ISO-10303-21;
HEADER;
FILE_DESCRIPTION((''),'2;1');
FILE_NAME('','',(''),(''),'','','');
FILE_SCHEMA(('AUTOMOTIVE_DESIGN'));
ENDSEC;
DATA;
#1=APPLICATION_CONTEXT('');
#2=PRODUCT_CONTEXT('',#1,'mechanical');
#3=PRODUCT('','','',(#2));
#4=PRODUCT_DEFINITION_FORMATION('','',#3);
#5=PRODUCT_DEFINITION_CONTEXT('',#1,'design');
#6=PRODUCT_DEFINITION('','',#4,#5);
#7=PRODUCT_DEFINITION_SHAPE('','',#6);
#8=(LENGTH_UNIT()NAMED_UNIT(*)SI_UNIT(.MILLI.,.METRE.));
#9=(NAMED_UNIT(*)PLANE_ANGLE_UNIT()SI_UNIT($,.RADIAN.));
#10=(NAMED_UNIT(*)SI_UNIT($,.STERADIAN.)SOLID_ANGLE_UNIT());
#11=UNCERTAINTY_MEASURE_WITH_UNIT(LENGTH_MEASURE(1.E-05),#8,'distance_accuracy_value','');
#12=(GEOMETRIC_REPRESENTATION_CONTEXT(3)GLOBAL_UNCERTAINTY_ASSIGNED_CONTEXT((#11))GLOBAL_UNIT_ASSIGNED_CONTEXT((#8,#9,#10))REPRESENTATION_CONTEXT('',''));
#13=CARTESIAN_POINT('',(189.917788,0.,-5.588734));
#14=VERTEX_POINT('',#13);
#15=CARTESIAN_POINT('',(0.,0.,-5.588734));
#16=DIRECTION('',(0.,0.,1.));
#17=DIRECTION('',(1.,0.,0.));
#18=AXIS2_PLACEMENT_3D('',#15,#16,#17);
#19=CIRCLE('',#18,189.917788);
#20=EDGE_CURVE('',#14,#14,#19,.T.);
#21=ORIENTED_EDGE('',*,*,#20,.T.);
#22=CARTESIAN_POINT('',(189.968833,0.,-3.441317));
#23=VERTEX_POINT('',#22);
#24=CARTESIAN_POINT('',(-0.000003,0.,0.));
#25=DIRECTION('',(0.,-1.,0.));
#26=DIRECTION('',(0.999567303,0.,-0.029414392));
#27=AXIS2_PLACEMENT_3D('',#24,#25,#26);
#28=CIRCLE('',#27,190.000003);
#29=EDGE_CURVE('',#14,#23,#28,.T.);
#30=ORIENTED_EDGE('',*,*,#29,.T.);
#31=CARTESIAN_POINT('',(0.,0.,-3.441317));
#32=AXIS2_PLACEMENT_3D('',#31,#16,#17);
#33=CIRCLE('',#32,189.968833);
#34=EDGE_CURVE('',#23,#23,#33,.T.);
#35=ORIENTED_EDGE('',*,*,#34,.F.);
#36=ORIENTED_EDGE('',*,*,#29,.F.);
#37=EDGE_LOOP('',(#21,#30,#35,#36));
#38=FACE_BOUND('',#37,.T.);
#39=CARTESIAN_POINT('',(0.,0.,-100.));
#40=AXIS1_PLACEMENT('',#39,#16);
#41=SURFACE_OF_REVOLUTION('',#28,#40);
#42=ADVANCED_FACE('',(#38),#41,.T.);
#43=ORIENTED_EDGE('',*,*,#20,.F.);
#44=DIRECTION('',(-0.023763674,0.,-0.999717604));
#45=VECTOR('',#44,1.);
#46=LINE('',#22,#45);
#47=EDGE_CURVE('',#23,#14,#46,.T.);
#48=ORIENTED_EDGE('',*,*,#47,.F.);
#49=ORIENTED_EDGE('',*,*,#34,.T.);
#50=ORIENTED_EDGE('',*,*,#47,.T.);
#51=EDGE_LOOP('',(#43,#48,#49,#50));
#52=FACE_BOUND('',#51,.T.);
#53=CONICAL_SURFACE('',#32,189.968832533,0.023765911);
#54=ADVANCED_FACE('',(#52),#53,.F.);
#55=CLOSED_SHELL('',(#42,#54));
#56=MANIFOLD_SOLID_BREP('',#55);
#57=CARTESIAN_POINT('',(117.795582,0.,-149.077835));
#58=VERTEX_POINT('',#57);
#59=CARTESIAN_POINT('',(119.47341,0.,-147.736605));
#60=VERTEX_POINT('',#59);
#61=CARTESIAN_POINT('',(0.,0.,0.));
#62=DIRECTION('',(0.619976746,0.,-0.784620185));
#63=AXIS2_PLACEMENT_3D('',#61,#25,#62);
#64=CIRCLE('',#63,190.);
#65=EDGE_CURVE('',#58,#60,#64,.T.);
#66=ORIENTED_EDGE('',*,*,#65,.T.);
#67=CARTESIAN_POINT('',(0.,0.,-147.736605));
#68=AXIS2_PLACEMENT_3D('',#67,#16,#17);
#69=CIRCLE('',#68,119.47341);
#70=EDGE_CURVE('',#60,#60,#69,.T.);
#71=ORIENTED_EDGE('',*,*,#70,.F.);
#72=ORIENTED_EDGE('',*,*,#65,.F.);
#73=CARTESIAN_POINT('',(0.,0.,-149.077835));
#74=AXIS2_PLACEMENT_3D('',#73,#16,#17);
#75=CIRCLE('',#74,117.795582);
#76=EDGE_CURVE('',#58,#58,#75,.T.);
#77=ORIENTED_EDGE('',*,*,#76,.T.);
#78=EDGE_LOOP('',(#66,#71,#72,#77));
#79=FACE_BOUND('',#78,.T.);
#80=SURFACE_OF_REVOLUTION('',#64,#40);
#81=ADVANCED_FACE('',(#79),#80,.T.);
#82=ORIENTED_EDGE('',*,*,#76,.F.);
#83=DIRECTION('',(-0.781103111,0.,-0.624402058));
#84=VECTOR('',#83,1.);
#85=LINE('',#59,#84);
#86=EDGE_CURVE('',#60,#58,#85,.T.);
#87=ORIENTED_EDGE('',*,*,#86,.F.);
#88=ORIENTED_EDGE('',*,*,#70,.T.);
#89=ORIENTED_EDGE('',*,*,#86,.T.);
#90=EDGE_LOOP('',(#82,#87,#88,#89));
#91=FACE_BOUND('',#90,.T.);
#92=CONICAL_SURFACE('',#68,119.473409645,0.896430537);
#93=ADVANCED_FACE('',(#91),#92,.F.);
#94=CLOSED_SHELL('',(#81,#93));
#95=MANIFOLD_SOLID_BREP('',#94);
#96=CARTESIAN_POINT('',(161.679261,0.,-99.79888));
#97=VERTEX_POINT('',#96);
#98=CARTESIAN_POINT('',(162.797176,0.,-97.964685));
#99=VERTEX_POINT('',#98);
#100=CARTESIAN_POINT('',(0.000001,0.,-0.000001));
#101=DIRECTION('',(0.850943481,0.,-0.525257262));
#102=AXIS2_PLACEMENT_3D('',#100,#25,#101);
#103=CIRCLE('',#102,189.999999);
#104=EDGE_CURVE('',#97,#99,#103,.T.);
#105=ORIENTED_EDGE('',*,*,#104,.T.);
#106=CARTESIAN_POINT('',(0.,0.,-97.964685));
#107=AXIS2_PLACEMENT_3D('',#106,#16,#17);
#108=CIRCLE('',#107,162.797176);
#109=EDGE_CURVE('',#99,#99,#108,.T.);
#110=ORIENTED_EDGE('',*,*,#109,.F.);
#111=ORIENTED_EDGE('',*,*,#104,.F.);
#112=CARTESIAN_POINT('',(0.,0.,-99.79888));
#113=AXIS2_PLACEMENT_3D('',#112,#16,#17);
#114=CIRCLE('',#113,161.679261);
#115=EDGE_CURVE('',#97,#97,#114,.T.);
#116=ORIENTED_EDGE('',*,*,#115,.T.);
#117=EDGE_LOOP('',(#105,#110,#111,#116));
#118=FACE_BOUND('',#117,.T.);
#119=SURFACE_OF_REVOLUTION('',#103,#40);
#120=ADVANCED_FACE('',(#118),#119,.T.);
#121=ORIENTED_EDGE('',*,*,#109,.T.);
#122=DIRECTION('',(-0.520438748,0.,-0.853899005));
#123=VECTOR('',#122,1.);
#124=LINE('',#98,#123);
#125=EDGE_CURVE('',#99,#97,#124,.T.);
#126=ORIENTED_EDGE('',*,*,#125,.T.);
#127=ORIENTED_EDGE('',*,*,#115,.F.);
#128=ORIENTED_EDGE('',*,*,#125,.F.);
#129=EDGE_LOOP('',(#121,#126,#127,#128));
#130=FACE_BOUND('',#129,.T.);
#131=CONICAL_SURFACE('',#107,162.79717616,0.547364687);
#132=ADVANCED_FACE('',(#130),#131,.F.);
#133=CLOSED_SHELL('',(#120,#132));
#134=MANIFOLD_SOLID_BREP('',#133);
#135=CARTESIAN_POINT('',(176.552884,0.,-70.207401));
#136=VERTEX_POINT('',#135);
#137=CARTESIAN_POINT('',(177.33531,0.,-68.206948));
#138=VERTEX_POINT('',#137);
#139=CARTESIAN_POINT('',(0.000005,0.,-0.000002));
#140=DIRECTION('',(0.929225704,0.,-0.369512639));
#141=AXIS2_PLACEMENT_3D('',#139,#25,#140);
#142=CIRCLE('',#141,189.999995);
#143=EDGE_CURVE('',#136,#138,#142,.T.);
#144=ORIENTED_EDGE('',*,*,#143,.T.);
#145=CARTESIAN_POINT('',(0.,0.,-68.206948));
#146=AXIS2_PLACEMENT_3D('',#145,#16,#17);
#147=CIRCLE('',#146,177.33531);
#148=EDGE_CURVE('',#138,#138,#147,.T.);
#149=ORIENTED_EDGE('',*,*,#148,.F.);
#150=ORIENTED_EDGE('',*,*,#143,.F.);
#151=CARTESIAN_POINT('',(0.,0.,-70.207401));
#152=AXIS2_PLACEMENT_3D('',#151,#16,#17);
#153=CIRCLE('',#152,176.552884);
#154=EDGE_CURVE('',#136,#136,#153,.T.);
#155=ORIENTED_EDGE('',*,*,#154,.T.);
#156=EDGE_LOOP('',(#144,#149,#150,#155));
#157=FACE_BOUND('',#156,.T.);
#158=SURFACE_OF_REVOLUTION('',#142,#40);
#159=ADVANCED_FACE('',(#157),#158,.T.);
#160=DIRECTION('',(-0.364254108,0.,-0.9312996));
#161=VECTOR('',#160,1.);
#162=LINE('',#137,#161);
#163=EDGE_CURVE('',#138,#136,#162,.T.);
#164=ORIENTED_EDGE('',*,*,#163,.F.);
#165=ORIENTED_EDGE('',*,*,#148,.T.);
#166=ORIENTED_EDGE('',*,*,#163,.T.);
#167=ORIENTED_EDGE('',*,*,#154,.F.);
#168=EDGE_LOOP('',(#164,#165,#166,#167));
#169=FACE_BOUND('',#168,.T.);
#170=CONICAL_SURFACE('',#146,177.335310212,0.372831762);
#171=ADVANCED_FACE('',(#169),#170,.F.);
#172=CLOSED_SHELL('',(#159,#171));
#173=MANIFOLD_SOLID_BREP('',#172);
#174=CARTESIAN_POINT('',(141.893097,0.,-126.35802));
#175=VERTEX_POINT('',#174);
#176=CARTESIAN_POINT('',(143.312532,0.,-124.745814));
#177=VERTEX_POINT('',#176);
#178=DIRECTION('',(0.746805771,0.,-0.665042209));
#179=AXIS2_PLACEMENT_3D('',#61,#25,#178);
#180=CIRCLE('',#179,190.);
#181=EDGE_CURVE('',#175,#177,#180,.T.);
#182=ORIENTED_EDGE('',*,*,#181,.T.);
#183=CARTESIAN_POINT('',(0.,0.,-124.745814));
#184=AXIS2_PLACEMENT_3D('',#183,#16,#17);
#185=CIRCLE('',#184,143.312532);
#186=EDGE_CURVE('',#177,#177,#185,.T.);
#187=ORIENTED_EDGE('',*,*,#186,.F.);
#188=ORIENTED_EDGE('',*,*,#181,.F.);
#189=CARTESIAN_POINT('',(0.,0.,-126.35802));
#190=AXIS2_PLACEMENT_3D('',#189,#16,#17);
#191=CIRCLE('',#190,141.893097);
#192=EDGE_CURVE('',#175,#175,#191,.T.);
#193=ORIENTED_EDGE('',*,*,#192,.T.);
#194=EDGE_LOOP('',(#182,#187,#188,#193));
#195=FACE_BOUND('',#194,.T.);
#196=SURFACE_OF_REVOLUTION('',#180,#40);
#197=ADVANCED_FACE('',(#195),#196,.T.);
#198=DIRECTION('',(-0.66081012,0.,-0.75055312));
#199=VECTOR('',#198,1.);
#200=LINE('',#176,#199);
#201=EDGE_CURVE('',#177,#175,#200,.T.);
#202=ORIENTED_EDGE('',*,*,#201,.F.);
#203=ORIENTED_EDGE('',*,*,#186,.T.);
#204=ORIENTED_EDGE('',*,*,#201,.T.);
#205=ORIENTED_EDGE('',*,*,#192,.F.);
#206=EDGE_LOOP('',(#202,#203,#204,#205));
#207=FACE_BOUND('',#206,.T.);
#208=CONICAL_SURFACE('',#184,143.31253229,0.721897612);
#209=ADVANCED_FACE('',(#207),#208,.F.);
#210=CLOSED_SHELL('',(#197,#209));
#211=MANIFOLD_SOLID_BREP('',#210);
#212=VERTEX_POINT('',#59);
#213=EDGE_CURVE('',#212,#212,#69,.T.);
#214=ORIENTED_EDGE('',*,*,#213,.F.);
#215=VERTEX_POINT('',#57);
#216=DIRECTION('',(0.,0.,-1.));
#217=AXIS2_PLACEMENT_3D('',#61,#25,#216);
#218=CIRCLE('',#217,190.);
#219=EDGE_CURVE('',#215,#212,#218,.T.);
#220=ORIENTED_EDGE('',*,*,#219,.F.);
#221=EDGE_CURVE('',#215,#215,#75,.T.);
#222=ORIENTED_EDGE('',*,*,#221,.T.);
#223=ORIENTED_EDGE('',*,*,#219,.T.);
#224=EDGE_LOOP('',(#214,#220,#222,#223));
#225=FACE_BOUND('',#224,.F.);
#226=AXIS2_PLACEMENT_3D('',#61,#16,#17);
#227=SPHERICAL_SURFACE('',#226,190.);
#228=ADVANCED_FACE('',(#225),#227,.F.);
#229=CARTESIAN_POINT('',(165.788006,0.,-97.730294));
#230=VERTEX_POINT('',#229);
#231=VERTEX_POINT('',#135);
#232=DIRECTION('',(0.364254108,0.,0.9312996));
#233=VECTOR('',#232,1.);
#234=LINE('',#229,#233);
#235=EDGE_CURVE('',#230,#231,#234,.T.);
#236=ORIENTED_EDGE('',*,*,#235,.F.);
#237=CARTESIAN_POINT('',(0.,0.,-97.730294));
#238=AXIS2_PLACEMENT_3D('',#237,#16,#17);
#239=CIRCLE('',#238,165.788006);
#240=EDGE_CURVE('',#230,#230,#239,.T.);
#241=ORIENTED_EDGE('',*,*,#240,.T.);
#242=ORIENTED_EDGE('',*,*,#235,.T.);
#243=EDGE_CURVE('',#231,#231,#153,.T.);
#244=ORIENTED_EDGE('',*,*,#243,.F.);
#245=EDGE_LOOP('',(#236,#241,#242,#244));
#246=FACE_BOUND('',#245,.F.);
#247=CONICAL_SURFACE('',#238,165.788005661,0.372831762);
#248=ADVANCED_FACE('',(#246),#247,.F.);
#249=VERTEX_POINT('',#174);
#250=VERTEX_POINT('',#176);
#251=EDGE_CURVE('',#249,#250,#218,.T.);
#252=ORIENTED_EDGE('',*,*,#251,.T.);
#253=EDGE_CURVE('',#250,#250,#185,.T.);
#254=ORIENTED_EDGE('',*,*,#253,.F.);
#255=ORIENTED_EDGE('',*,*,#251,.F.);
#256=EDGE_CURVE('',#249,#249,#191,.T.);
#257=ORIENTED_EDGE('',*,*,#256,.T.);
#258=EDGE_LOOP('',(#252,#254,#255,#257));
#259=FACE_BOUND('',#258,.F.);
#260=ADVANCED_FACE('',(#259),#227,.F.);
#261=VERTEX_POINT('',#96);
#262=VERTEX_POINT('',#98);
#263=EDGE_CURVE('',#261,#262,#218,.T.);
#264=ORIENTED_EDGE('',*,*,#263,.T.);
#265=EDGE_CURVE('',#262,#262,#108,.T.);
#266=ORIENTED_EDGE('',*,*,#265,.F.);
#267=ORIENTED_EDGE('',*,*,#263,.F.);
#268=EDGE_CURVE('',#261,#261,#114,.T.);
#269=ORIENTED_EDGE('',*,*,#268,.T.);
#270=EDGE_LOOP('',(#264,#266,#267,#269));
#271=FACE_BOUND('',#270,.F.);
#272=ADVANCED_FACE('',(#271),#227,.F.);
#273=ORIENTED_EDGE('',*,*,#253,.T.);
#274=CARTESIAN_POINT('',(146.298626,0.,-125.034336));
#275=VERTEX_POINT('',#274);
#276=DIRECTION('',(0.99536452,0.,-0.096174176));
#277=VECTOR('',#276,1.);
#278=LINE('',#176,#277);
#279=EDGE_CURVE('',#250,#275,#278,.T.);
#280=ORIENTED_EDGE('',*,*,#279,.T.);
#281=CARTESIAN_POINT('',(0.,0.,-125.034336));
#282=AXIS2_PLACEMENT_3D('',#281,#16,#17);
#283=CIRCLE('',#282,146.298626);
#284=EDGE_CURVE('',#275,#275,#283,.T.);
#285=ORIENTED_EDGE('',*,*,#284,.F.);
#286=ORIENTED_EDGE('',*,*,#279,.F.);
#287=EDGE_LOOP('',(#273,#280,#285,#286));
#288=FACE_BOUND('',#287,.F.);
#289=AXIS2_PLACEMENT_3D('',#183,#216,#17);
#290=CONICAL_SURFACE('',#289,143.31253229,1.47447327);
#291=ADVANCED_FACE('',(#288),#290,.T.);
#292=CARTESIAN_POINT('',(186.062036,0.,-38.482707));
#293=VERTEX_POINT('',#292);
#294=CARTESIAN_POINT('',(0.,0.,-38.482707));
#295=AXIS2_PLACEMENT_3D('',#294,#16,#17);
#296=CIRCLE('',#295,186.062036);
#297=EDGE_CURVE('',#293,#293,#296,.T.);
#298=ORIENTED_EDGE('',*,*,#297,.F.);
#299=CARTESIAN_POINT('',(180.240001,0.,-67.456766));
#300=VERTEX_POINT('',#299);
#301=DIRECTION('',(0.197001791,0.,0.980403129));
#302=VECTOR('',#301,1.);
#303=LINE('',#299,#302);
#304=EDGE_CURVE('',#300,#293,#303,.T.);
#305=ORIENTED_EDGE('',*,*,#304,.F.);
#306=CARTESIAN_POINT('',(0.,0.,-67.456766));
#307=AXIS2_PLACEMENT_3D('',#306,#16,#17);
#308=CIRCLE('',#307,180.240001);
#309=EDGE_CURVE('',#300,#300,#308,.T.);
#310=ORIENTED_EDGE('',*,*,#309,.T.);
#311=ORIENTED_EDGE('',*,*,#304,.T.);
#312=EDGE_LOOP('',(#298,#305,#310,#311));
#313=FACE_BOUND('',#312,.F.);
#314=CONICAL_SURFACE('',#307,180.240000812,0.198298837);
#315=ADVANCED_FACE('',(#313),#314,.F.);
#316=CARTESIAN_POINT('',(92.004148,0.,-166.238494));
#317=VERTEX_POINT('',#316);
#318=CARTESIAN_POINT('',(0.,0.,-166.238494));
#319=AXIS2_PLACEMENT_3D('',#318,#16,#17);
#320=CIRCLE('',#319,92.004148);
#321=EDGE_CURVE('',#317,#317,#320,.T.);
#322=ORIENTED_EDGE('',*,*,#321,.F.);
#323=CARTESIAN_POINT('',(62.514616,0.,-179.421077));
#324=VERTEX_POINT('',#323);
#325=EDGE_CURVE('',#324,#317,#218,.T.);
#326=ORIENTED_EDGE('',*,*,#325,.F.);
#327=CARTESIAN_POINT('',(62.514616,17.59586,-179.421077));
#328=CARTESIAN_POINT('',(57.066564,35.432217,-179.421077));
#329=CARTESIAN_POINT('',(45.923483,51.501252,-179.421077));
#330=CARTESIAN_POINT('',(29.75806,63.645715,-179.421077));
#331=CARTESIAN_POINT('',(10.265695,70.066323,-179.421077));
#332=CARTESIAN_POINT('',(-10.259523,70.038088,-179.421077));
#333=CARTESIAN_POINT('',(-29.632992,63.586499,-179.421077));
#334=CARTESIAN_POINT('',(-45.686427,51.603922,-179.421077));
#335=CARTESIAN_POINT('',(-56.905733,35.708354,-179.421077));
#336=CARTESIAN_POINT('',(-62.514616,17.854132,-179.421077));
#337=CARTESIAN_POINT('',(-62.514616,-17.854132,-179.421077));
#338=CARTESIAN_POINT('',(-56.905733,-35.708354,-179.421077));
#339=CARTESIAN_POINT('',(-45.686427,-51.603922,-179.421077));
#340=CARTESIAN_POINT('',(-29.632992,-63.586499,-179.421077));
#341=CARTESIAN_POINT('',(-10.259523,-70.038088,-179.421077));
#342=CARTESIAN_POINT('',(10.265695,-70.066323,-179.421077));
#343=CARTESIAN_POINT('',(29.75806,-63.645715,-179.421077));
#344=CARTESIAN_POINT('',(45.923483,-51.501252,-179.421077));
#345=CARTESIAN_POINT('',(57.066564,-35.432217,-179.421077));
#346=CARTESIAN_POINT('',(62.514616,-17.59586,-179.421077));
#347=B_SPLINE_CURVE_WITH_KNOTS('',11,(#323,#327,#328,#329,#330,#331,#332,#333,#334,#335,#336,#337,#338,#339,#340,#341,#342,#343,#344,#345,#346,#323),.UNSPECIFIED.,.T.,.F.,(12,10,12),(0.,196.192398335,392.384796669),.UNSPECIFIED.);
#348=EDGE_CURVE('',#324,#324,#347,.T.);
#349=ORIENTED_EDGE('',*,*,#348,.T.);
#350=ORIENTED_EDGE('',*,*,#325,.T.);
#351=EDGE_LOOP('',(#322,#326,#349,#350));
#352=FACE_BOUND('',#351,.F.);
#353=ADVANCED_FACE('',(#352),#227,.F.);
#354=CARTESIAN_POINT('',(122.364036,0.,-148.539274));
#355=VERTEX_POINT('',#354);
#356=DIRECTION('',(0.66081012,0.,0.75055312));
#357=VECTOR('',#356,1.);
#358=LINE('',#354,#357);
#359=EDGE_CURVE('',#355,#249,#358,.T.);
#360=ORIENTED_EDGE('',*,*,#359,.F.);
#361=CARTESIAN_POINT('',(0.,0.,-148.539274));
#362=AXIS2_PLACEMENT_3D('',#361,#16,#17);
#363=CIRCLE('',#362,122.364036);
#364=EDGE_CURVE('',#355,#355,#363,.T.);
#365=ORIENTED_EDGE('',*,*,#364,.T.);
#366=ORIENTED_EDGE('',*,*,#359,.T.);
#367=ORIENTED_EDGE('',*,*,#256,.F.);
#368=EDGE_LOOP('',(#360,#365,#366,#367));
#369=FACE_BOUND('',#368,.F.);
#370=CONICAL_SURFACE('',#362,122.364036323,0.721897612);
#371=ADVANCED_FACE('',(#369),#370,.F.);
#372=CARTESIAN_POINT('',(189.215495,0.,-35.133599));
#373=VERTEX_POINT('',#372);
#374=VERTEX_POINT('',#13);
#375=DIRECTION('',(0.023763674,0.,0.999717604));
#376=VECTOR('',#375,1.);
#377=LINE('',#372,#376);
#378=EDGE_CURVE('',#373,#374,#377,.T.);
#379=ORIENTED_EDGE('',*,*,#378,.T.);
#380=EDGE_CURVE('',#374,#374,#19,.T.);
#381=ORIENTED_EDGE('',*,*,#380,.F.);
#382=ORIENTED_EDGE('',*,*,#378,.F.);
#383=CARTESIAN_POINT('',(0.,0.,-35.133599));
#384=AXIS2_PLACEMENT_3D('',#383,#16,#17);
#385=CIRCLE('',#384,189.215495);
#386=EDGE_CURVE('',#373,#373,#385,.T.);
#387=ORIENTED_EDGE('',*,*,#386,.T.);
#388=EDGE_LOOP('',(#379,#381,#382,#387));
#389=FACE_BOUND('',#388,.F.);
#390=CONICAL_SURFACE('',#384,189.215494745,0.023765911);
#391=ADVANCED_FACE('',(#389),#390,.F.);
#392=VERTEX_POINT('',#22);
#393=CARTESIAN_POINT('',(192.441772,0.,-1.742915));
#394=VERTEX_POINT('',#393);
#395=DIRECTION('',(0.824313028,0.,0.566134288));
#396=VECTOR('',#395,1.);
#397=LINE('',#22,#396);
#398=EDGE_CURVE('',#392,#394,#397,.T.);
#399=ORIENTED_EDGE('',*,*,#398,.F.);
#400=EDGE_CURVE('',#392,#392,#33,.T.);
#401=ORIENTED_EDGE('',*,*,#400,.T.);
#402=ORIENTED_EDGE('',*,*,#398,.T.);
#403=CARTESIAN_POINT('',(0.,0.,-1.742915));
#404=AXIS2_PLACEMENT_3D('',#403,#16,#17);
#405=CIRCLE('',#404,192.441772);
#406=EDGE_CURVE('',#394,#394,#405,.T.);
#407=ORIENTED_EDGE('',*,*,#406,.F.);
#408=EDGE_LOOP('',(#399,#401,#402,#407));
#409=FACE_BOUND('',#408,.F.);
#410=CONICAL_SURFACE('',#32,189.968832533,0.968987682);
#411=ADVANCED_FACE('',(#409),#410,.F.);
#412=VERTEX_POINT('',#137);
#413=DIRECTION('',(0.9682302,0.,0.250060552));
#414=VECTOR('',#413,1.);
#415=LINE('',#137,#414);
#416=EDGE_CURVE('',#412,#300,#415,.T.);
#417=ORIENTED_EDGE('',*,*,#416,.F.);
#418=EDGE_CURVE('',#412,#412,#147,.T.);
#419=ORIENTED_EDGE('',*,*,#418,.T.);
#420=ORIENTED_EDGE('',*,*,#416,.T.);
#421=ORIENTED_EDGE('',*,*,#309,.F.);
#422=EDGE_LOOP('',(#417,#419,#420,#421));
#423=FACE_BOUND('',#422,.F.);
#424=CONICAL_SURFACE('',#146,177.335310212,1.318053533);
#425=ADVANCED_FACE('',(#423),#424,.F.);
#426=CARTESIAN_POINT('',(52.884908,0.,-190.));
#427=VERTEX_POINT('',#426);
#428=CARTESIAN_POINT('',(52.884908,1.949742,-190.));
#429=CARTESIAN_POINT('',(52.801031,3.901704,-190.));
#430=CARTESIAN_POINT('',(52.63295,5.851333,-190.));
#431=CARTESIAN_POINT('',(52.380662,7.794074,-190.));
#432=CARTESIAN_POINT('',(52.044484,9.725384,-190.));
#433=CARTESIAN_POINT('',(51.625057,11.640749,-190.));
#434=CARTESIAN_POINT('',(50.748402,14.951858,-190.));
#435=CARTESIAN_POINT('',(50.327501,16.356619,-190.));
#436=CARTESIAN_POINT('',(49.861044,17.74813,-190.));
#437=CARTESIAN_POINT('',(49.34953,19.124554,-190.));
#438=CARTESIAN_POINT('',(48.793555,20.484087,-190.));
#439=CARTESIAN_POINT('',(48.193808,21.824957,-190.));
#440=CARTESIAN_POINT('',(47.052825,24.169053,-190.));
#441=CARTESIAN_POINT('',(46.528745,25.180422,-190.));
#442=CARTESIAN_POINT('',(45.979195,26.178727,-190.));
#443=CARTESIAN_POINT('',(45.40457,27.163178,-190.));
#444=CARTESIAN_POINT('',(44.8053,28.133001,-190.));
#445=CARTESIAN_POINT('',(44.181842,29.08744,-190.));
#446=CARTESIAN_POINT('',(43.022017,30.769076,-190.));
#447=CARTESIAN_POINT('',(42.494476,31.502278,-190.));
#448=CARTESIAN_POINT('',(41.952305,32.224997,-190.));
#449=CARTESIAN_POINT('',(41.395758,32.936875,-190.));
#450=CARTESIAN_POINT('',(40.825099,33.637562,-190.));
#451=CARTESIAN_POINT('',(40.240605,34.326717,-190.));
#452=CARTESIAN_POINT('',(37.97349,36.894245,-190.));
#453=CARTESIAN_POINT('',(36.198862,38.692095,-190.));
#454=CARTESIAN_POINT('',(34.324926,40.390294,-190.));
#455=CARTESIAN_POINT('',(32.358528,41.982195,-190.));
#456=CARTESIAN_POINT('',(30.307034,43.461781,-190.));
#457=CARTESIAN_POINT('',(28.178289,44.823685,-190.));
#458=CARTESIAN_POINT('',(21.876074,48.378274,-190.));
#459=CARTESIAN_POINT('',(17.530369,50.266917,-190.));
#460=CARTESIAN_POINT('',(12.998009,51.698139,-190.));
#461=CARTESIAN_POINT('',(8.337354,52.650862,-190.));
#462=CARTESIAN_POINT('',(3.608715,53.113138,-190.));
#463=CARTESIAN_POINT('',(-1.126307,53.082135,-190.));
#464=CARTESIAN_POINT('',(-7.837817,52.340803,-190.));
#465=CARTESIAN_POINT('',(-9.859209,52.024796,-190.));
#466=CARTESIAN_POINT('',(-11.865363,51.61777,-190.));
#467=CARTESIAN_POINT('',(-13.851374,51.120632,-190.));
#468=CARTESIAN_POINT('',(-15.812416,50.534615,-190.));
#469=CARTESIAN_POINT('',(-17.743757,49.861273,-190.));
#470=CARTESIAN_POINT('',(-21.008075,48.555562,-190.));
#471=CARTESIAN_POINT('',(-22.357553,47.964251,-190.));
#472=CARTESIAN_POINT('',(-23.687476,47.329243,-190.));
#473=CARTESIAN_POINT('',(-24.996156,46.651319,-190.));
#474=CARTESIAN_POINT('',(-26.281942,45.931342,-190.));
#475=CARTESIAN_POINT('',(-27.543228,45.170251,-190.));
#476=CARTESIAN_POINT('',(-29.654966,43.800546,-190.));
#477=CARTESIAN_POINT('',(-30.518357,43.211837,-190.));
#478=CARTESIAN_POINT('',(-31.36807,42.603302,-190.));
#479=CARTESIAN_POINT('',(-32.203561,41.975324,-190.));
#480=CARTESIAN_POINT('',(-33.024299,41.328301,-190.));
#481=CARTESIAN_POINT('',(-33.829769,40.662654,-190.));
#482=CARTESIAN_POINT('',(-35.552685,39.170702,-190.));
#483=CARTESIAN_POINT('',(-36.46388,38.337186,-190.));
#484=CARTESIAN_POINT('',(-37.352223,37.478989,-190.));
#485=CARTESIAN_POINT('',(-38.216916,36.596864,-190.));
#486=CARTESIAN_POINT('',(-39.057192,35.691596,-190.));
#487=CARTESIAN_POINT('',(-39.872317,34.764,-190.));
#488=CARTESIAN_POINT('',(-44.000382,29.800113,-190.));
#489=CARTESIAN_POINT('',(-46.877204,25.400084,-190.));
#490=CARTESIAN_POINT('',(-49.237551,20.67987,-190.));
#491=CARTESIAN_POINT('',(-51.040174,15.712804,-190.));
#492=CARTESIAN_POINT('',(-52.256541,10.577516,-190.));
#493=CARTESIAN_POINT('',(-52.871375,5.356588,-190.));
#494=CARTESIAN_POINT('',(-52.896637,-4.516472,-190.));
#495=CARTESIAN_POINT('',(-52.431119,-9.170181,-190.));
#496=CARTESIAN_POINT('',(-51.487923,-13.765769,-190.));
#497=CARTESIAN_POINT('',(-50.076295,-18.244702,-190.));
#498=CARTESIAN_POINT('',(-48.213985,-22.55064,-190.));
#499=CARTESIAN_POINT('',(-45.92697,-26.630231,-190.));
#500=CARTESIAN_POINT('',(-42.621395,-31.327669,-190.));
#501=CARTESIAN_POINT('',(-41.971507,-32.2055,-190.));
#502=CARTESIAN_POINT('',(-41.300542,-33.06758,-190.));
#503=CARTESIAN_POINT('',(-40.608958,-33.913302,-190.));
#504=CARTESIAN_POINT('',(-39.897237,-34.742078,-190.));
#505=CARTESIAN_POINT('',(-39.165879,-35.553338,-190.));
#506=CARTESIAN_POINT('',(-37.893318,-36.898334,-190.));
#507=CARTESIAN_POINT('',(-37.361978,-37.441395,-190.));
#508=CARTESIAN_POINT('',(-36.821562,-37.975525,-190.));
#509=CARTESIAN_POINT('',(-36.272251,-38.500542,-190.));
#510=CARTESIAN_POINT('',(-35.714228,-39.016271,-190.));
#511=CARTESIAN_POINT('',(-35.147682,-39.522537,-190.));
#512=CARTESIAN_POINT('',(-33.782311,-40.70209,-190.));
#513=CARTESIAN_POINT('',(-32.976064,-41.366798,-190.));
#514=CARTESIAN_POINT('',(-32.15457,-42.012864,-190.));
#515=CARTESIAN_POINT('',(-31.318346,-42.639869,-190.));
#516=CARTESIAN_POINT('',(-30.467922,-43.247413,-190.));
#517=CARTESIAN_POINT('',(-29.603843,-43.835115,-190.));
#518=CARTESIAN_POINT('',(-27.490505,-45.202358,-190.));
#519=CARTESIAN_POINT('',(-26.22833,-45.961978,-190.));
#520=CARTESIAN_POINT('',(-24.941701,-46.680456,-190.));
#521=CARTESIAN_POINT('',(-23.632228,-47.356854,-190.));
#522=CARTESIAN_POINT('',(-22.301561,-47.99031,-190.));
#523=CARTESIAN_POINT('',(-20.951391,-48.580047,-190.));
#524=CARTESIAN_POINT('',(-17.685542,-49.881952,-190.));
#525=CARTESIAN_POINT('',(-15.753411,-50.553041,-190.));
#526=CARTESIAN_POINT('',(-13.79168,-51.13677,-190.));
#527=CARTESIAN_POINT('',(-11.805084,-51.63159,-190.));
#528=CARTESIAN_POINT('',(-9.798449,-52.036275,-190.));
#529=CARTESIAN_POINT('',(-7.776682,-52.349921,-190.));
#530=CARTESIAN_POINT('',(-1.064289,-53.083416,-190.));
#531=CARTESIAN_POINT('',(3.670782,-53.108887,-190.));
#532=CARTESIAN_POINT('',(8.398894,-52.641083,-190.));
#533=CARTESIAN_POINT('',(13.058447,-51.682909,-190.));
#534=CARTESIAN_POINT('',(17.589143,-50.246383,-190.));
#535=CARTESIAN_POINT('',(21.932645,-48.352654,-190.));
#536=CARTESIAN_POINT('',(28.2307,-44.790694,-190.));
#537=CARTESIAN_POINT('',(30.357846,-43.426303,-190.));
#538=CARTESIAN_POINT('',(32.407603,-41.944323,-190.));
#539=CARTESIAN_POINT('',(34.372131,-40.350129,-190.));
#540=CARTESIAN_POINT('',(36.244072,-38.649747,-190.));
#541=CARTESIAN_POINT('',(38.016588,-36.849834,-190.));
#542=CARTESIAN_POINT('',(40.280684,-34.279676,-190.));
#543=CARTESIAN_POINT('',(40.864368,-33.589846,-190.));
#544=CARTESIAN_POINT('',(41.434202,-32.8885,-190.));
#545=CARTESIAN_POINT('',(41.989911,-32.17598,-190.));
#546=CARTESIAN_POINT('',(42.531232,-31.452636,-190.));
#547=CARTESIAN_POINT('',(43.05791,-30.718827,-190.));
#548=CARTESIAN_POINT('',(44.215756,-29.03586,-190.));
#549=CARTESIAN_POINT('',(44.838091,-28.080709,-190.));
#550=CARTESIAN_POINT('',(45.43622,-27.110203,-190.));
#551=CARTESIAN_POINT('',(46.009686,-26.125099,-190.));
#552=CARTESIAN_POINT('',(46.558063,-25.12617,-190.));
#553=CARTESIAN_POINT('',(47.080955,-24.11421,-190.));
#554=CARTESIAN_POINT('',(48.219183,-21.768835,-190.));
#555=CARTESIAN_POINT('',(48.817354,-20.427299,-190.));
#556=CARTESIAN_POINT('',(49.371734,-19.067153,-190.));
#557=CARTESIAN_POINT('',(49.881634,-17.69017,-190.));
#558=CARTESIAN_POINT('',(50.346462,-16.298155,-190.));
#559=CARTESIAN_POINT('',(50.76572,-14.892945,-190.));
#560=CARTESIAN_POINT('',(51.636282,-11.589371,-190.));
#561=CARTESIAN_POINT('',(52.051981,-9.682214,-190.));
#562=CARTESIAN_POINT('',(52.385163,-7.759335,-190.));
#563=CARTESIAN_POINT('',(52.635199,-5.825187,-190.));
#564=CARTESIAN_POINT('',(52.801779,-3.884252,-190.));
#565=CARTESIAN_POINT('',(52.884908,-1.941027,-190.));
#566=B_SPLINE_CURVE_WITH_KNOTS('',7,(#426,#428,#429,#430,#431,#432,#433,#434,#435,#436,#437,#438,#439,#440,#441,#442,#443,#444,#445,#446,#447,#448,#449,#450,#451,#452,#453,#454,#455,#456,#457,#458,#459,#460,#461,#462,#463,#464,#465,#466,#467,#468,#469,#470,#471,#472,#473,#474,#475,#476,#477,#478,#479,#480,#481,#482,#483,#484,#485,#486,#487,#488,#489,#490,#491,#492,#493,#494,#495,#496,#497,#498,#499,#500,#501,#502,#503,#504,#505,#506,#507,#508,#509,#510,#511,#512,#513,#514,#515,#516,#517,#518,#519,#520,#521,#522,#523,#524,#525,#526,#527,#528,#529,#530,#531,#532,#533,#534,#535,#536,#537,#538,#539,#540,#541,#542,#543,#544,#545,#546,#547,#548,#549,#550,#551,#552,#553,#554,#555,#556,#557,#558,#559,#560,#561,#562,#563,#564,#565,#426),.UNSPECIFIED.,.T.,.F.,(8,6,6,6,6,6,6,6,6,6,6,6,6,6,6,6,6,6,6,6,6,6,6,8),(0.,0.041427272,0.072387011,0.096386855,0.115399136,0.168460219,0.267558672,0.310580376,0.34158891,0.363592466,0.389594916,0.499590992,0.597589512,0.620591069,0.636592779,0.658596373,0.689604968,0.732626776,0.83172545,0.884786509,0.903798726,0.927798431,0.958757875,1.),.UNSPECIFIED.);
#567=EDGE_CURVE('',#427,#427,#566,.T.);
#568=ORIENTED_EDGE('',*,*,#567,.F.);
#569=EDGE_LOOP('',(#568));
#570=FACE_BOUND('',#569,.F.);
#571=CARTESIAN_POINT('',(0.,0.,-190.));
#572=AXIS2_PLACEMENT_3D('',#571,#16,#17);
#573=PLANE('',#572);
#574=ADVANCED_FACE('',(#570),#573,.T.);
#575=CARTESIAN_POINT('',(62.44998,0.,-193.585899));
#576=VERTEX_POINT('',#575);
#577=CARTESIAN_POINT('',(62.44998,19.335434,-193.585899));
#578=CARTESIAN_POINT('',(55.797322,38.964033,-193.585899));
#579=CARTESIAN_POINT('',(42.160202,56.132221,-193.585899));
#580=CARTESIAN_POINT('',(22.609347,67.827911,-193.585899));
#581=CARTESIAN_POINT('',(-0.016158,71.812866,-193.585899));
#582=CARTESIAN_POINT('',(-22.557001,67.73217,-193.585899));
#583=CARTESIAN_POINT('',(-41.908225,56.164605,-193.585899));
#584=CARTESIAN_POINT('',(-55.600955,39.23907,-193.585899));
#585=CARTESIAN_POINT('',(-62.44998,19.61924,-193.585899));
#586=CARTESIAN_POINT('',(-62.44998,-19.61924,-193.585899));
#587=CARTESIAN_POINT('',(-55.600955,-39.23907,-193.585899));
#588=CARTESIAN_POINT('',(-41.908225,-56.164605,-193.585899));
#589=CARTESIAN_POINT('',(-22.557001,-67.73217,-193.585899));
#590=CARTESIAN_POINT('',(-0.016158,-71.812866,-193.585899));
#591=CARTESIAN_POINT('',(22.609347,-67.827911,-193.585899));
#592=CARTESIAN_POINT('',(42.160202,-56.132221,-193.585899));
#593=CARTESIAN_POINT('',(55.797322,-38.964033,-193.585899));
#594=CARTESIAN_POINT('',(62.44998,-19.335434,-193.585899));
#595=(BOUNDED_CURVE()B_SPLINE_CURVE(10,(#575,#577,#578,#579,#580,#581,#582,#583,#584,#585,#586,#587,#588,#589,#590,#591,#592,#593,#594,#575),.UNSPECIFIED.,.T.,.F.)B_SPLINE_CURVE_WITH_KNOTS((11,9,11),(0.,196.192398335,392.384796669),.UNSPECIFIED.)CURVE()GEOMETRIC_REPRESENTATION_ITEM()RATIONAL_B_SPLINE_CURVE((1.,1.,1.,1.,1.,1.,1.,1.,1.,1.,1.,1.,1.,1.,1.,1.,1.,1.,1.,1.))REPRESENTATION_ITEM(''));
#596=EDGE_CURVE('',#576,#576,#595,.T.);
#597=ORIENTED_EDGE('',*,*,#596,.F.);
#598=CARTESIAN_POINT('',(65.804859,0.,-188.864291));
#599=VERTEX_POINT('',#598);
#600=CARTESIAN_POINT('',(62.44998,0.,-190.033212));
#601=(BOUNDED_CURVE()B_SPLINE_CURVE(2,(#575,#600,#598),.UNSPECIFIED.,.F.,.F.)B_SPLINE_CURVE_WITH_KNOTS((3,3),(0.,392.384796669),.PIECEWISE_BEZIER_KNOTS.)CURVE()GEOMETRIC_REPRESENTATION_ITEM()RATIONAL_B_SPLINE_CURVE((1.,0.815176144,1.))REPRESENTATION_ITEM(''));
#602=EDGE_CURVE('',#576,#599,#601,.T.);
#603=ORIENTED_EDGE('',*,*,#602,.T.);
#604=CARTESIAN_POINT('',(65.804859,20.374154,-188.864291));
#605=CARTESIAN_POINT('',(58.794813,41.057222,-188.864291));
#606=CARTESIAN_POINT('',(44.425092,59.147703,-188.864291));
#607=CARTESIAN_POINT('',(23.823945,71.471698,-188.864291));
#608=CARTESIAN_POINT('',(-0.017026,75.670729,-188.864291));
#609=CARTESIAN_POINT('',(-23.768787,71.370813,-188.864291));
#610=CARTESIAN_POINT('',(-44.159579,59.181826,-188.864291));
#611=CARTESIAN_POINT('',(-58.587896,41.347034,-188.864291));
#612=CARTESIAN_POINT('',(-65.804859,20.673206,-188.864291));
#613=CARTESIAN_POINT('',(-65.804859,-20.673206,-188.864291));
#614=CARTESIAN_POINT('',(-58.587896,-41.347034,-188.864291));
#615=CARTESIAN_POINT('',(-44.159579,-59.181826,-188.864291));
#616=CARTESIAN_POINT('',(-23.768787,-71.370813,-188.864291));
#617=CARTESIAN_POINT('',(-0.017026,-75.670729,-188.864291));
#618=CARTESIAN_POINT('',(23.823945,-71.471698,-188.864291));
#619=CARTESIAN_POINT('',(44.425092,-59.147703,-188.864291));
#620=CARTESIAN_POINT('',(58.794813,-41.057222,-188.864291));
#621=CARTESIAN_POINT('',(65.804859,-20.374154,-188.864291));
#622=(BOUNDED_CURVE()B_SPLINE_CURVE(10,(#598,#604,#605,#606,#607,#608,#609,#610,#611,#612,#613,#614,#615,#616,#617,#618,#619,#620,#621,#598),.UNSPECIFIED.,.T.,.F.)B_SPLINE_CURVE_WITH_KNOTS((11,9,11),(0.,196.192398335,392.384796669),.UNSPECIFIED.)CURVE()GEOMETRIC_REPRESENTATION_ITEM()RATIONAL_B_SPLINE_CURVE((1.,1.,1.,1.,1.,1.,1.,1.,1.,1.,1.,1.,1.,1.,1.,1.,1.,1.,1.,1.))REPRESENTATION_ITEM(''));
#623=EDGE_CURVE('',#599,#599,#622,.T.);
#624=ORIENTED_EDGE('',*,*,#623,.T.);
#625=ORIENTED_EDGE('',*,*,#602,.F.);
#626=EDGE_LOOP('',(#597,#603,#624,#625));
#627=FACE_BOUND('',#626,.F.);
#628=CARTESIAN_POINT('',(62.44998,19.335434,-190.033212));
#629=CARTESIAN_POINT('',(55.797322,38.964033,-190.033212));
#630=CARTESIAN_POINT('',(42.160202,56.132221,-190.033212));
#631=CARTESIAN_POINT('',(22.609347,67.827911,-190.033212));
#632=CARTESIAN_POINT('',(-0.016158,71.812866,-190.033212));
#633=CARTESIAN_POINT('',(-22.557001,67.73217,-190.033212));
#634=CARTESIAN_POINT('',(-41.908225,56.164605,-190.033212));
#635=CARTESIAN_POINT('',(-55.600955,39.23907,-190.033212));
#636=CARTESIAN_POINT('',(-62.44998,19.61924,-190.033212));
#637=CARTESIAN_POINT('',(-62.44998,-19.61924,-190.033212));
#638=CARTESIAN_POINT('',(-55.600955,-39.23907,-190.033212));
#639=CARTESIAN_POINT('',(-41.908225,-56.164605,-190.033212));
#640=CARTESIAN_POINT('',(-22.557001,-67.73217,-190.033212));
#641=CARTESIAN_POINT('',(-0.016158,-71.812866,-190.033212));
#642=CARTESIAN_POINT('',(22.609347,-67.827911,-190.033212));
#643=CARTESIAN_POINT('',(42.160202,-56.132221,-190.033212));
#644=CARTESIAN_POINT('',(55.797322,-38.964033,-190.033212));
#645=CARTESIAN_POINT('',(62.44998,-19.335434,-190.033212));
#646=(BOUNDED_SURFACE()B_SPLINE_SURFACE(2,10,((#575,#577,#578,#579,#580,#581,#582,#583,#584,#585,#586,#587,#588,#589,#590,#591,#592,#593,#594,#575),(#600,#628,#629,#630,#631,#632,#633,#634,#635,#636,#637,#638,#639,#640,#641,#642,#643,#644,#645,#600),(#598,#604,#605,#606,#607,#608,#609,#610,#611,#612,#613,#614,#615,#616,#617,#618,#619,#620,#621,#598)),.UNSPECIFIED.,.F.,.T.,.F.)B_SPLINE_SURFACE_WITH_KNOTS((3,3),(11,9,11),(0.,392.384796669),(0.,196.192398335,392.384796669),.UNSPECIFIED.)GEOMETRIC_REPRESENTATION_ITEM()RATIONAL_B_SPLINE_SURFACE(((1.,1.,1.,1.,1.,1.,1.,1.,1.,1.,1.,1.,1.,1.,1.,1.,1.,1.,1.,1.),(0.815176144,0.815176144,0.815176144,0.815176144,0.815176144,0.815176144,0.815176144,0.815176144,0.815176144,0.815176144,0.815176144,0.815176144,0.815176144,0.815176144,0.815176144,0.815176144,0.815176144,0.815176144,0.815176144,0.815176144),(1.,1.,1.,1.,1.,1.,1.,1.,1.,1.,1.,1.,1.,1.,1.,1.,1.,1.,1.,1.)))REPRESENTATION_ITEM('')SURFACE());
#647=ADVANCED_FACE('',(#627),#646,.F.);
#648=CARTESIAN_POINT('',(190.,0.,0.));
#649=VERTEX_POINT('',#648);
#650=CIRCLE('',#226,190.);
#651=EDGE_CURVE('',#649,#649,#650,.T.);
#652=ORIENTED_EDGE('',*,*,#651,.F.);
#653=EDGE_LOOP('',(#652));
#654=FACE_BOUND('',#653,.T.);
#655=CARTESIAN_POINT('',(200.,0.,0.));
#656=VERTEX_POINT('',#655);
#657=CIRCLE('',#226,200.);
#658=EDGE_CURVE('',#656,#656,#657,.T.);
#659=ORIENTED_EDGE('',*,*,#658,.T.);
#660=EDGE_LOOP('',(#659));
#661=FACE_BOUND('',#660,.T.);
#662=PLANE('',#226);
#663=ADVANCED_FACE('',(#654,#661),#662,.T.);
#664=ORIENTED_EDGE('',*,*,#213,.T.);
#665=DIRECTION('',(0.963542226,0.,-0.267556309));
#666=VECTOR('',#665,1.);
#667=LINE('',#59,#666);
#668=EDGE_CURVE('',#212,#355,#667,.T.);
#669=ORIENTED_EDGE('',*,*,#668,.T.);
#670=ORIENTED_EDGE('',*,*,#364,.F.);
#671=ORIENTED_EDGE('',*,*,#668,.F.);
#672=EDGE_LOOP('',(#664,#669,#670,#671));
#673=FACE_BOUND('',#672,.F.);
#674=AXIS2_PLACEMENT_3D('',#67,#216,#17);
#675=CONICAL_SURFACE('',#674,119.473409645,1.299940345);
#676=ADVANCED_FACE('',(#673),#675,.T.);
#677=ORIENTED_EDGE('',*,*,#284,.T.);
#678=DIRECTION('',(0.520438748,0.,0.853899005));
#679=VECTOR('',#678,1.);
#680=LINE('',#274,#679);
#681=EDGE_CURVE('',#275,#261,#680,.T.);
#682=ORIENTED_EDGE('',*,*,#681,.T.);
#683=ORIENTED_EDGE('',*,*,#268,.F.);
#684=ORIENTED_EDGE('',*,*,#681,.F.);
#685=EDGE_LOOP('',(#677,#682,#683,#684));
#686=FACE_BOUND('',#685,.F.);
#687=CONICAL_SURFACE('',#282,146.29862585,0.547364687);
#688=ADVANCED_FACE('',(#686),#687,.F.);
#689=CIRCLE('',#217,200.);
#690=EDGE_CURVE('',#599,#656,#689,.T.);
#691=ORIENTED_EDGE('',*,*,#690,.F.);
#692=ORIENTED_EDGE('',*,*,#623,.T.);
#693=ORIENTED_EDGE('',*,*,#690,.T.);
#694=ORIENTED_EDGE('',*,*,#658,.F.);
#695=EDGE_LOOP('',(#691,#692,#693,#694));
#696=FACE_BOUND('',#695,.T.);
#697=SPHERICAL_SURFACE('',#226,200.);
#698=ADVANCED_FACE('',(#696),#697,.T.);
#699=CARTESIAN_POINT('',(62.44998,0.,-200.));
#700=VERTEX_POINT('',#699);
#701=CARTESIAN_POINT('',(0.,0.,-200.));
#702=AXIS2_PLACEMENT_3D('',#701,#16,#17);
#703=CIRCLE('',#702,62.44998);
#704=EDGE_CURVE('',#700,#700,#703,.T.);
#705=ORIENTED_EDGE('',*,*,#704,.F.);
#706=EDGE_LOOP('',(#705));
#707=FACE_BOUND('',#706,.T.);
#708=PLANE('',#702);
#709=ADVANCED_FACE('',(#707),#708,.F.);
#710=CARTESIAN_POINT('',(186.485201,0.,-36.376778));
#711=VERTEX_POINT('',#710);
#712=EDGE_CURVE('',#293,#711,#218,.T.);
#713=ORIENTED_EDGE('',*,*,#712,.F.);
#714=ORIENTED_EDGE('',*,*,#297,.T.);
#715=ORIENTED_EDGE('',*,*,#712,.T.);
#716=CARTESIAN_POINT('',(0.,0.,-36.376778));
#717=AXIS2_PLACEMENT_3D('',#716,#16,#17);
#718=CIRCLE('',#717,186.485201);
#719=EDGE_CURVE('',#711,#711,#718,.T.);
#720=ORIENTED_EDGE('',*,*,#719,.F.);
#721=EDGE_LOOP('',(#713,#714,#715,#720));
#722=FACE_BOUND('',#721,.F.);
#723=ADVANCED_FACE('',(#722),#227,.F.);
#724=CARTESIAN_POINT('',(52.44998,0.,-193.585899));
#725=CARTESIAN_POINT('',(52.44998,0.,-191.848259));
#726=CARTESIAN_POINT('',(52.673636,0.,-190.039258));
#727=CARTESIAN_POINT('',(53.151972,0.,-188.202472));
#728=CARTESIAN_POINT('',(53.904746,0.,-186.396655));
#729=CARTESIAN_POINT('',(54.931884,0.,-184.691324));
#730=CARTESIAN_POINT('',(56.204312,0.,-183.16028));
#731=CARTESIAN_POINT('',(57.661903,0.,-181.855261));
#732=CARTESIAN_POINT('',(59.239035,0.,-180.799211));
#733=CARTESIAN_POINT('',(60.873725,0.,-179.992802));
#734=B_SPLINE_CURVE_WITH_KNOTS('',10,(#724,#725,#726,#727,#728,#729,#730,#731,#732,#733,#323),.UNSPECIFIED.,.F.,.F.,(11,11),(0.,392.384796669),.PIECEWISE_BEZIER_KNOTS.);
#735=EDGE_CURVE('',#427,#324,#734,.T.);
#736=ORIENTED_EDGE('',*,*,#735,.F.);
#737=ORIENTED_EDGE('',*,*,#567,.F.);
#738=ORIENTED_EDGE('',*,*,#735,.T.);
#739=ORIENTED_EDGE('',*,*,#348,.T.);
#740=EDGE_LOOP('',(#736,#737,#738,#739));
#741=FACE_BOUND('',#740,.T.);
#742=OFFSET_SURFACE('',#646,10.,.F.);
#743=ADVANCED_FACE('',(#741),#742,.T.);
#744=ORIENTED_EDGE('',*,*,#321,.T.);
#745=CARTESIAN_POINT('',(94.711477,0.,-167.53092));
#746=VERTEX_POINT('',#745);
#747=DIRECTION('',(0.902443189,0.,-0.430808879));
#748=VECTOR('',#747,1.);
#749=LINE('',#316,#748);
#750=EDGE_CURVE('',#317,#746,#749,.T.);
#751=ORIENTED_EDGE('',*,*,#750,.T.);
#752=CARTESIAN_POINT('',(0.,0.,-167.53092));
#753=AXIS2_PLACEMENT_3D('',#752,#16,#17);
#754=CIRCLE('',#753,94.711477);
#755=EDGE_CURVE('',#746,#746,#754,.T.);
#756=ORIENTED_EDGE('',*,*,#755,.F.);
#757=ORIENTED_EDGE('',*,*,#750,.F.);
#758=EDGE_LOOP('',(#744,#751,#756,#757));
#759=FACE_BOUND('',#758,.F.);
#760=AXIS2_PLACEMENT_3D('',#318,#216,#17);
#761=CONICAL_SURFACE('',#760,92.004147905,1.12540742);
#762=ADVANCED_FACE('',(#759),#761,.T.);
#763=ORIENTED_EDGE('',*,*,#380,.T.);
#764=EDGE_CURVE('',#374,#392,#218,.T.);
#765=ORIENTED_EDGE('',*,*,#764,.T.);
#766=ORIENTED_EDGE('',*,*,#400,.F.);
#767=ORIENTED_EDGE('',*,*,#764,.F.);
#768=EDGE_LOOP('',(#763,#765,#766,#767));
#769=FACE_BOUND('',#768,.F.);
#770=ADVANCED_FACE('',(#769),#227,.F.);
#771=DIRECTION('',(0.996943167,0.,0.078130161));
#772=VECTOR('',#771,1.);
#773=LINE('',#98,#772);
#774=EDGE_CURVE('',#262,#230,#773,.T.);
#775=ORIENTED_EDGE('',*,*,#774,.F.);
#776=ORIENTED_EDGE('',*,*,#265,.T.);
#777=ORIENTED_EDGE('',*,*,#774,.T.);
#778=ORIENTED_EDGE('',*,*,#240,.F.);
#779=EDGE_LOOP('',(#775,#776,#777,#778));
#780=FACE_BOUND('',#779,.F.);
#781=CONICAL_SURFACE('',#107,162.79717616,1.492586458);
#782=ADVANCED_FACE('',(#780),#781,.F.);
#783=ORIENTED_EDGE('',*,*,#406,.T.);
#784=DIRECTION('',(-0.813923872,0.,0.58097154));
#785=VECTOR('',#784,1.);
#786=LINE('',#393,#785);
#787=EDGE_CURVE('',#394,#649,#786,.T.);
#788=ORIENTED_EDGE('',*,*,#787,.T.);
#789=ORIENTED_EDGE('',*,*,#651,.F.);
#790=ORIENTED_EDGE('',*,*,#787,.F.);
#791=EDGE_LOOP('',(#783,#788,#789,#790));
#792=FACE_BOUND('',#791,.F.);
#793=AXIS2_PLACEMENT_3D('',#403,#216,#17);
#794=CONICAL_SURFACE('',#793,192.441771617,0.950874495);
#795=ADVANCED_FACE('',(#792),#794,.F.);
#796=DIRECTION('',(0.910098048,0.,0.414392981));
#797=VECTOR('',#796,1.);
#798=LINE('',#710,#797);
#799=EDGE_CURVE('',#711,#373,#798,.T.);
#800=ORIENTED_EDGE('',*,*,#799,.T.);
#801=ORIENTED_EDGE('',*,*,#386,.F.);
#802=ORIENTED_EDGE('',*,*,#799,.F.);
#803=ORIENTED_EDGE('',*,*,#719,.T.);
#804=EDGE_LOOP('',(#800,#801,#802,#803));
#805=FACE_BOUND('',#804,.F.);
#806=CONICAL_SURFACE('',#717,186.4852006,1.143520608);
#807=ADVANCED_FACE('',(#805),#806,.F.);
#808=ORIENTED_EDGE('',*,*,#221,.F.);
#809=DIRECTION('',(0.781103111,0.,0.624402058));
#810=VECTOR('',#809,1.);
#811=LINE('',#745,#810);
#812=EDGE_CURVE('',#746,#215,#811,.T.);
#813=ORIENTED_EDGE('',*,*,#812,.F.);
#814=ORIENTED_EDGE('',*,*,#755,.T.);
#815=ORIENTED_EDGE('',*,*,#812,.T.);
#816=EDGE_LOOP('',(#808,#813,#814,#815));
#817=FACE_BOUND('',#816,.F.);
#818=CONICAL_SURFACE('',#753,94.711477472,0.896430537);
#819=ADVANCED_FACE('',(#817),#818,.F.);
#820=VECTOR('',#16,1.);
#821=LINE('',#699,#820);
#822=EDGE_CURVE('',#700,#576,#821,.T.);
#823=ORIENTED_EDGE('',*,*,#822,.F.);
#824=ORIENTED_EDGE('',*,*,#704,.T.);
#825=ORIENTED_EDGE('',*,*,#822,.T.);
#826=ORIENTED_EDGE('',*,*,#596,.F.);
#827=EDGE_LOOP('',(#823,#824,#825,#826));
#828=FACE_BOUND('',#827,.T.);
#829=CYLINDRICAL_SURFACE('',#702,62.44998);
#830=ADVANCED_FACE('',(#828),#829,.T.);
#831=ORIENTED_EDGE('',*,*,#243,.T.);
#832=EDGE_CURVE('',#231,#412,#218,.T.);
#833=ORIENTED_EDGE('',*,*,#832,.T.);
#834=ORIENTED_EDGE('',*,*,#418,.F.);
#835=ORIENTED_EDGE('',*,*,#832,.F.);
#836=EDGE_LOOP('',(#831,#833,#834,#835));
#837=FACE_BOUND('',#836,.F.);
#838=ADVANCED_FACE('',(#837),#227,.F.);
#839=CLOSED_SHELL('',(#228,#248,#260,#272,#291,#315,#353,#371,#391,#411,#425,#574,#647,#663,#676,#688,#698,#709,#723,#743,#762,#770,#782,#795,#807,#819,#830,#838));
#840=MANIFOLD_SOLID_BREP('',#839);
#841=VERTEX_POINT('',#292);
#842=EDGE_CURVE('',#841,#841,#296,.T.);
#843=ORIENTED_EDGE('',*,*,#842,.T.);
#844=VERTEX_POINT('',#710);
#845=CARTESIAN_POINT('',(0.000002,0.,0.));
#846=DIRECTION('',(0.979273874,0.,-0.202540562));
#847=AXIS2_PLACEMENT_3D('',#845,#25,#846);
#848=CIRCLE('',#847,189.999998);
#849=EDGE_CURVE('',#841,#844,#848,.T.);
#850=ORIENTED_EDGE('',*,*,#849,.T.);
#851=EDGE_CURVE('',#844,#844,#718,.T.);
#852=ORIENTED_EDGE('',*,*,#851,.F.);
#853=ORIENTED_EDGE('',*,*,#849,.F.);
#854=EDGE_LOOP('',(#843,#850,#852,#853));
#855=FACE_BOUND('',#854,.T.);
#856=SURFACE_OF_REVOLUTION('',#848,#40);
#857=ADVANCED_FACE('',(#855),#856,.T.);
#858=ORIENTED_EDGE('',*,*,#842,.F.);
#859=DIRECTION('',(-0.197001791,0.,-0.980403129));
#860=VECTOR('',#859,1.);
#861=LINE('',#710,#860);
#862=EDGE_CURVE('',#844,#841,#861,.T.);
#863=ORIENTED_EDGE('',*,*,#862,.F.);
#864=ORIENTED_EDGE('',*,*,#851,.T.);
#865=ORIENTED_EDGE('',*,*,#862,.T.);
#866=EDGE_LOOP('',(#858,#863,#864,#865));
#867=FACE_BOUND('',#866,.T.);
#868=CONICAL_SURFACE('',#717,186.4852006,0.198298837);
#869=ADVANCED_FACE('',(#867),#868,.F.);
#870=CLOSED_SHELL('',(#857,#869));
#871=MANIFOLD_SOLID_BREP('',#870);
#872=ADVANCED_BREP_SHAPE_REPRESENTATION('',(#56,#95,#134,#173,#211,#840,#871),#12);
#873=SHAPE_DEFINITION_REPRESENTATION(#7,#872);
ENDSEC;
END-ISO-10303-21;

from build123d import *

# Parameters (mm, degrees)
F2_R = 5
F3_T = -10


with BuildPart() as f1:
    # F0 (on Front) → F1 (revolve)
    with BuildSketch(Plane.XZ):
        with BuildLine():
            Line((0, 0), (0, -200))
            ThreePointArc((0, -200), (31.6227766017, -197.4841765813), (62.449979984, -190))
            ThreePointArc((62.449979984, -190), (162.0030802127, -117.2817206627), (200, 0))
            Line((200, 0), (0, 0))
        make_face()
        with BuildLine():
            ThreePointArc((62.449979984, -190), (31.6227766017, -197.4841765813), (0, -200))
            Line((0, -200), (62.449979984, -200))
            Line((62.449979984, -200), (62.449979984, -190))
        make_face()
    revolve(axis=Axis((0, 0, -100), (0, 0, 1)))

    # F2
    f2_edges = [f1.edges().sort_by_distance(p)[0] for p in [
        (-62.44998, 0, -190),
    ]]
    fillet(f2_edges, radius=F2_R)

    # F3
    f3_openings = [f1.faces().sort_by_distance(p)[0] for p in [
        (0, 0, 0),
    ]]
    offset(amount=F3_T, openings=f3_openings)


with BuildPart() as f5:
    # F4 (on face) → F5 (revolve)
    with BuildSketch(Plane.XZ):
        with BuildLine():
            Line((94.7114774724, -167.5309202794), (117.795581754, -149.0778351038))
            ThreePointArc((117.795581754, -149.0778351038), (106.6784742153, -157.2250079952), (95, -164.544826719))
            Line((95, -164.544826719), (94.7114774724, -167.5309202794))
        make_face()
        with BuildLine():
            Line((94.7114774724, -167.5309202794), (95, -164.544826719))
            ThreePointArc((95, -164.544826719), (93.5059086921, -165.3984432807), (92.004147905, -166.2384936417))
            Line((92.004147905, -166.2384936417), (94.7114774724, -167.5309202794))
        make_face()
    revolve(axis=Axis((0, 0, -100), (0, 0, 1)))


with BuildPart() as f5b:
    # F4 (on face) → F5, piece 2 (revolve)
    with BuildSketch(Plane.XZ):
        with BuildLine():
            ThreePointArc((117.795581754, -149.0778351038), (118.6363911057, -148.4095910156), (119.4734096451, -147.736604766))
            Line((119.4734096451, -147.736604766), (117.795581754, -149.0778351038))
        make_face()
    revolve(axis=Axis((0, 0, -100), (0, 0, 1)))


with BuildPart() as f5c:
    # F4 (on face) → F5, piece 3 (revolve)
    with BuildSketch(Plane.XZ):
        with BuildLine():
            Line((122.3640363234, -148.5392736932), (141.8930965783, -126.3580197037))
            ThreePointArc((141.8930965783, -126.3580197037), (132.3596246088, -136.3118841973), (122.1296458404, -145.5484441926))
            Line((122.1296458404, -145.5484441926), (122.3640363234, -148.5392736932))
        make_face()
        with BuildLine():
            Line((122.3640363234, -148.5392736932), (122.1296458404, -145.5484441926))
            ThreePointArc((122.1296458404, -145.5484441926), (120.806482097, -146.6485386335), (119.4734096451, -147.736604766))
            Line((119.4734096451, -147.736604766), (122.3640363234, -148.5392736932))
        make_face()
    revolve(axis=Axis((0, 0, -100), (0, 0, 1)))


with BuildPart() as f5d:
    # F4 (on face) → F5, piece 4 (revolve)
    with BuildSketch(Plane.XZ):
        with BuildLine():
            ThreePointArc((141.8930965783, -126.3580197037), (142.6050927785, -125.553922733), (143.3125322896, -124.7458139127))
            Line((143.3125322896, -124.7458139127), (141.8930965783, -126.3580197037))
        make_face()
    revolve(axis=Axis((0, 0, -100), (0, 0, 1)))


with BuildPart() as f5e:
    # F4 (on face) → F5, piece 5 (revolve)
    with BuildSketch(Plane.XZ):
        with BuildLine():
            Line((146.2986258499, -125.0343364403), (161.6792614643, -99.7988798151))
            ThreePointArc((161.6792614643, -99.7988798151), (154.0190947858, -111.2569927752), (145.5484441926, -122.1296458404))
            Line((145.5484441926, -122.1296458404), (146.2986258499, -125.0343364403))
        make_face()
        with BuildLine():
            Line((146.2986258499, -125.0343364403), (145.5484441926, -122.1296458404))
            ThreePointArc((145.5484441926, -122.1296458404), (144.4364116745, -123.4427923477), (143.3125322896, -124.7458139127))
            Line((143.3125322896, -124.7458139127), (146.2986258499, -125.0343364403))
        make_face()
    revolve(axis=Axis((0, 0, -100), (0, 0, 1)))


with BuildPart() as f5f:
    # F4 (on face) → F5, piece 6 (revolve)
    with BuildSketch(Plane.XZ):
        with BuildLine():
            ThreePointArc((161.6792614643, -99.7988798151), (162.2408108688, -98.8833620415), (162.7971761601, -97.9646846281))
            Line((162.7971761601, -97.9646846281), (161.6792614643, -99.7988798151))
        make_face()
    revolve(axis=Axis((0, 0, -100), (0, 0, 1)))


with BuildPart() as f5g:
    # F4 (on face) → F5, piece 7 (revolve)
    with BuildSketch(Plane.XZ):
        with BuildLine():
            Line((165.7880056607, -97.7302941451), (176.5528838044, -70.207401464))
            ThreePointArc((176.5528838044, -70.207401464), (170.998772705, -82.8216139264), (164.544826719, -95))
            Line((164.544826719, -95), (165.7880056607, -97.7302941451))
        make_face()
        with BuildLine():
            Line((165.7880056607, -97.7302941451), (164.544826719, -95))
            ThreePointArc((164.544826719, -95), (163.6777139716, -96.4862992814), (162.7971761601, -97.9646846281))
            Line((162.7971761601, -97.9646846281), (165.7880056607, -97.7302941451))
        make_face()
    revolve(axis=Axis((0, 0, -100), (0, 0, 1)))


with BuildPart() as f5h:
    # F4 (on face) → F5, piece 8 (revolve)
    with BuildSketch(Plane.XZ):
        with BuildLine():
            ThreePointArc((176.5528838044, -70.207401464), (176.9469240187, -69.2082804319), (177.3353102124, -68.2069479736))
            Line((177.3353102124, -68.2069479736), (176.5528838044, -70.207401464))
        make_face()
    revolve(axis=Axis((0, 0, -100), (0, 0, 1)))


with BuildPart() as f5i:
    # F4 (on face) → F5, piece 9 (revolve)
    with BuildSketch(Plane.XZ):
        with BuildLine():
            Line((180.2400008123, -67.4567663163), (186.0620361102, -38.4827067462))
            ThreePointArc((186.0620361102, -38.4827067462), (182.7827394452, -51.8697422482), (178.5415979493, -64.9838272319))
            Line((178.5415979493, -64.9838272319), (180.2400008123, -67.4567663163))
        make_face()
        with BuildLine():
            Line((180.2400008123, -67.4567663163), (178.5415979493, -64.9838272319))
            ThreePointArc((178.5415979493, -64.9838272319), (177.9457517546, -66.5981188359), (177.3353102124, -68.2069479736))
            Line((177.3353102124, -68.2069479736), (180.2400008123, -67.4567663163))
        make_face()
    revolve(axis=Axis((0, 0, -100), (0, 0, 1)))


with BuildPart() as f5j:
    # F4 (on face) → F5, piece 10 (revolve)
    with BuildSketch(Plane.XZ):
        with BuildLine():
            ThreePointArc((186.0620361102, -38.4827067462), (186.2765944217, -37.4303402423), (186.4852005998, -36.3767777193))
            Line((186.4852005998, -36.3767777193), (186.0620361102, -38.4827067462))
        make_face()
    revolve(axis=Axis((0, 0, -100), (0, 0, 1)))


with BuildPart() as f5k:
    # F4 (on face) → F5, piece 11 (revolve)
    with BuildSketch(Plane.XZ):
        with BuildLine():
            Line((189.215494745, -35.1335987777), (189.9177876008, -5.588734457))
            ThreePointArc((189.9177876008, -5.588734457), (189.0129451399, -19.3418346991), (187.1134730723, -32.9931537567))
            Line((187.1134730723, -32.9931537567), (189.215494745, -35.1335987777))
        make_face()
        with BuildLine():
            Line((189.215494745, -35.1335987777), (187.1134730723, -32.9931537567))
            ThreePointArc((187.1134730723, -32.9931537567), (186.8069979154, -34.6863882499), (186.4852005998, -36.3767777193))
            Line((186.4852005998, -36.3767777193), (189.215494745, -35.1335987777))
        make_face()
    revolve(axis=Axis((0, 0, -100), (0, 0, 1)))


with BuildPart() as f5l:
    # F4 (on face) → F5, piece 12 (revolve)
    with BuildSketch(Plane.XZ):
        with BuildLine():
            ThreePointArc((189.9177876008, -5.588734457), (189.9463447637, -4.5150981052), (189.9688325331, -3.4413174816))
            Line((189.9688325331, -3.4413174816), (189.9177876008, -5.588734457))
        make_face()
    revolve(axis=Axis((0, 0, -100), (0, 0, 1)))


with BuildPart() as f5m:
    # F4 (on face) → F5, piece 13 (revolve)
    with BuildSketch(Plane.XZ):
        with BuildLine():
            Line((192.4417716175, -1.7429146187), (190, 0))
            ThreePointArc((190, 0), (189.9922079735, -1.7207293091), (189.9688325331, -3.4413174816))
            Line((189.9688325331, -3.4413174816), (192.4417716175, -1.7429146187))
        make_face()
    revolve(axis=Axis((0, 0, -100), (0, 0, 1)))


with BuildPart() as f1_1:
    add(f1.part)

    # F6: cut F5m, F5k, F5i, F5g, F5e, F5c, F5
    add(f5m.part, mode=Mode.SUBTRACT)
    add(f5k.part, mode=Mode.SUBTRACT)
    add(f5i.part, mode=Mode.SUBTRACT)
    add(f5g.part, mode=Mode.SUBTRACT)
    add(f5e.part, mode=Mode.SUBTRACT)
    add(f5c.part, mode=Mode.SUBTRACT)
    add(f5.part, mode=Mode.SUBTRACT)


solid = Compound([f5b.part, f5d.part, f5f.part, f5h.part, f5j.part, f5l.part, f1_1.part])
